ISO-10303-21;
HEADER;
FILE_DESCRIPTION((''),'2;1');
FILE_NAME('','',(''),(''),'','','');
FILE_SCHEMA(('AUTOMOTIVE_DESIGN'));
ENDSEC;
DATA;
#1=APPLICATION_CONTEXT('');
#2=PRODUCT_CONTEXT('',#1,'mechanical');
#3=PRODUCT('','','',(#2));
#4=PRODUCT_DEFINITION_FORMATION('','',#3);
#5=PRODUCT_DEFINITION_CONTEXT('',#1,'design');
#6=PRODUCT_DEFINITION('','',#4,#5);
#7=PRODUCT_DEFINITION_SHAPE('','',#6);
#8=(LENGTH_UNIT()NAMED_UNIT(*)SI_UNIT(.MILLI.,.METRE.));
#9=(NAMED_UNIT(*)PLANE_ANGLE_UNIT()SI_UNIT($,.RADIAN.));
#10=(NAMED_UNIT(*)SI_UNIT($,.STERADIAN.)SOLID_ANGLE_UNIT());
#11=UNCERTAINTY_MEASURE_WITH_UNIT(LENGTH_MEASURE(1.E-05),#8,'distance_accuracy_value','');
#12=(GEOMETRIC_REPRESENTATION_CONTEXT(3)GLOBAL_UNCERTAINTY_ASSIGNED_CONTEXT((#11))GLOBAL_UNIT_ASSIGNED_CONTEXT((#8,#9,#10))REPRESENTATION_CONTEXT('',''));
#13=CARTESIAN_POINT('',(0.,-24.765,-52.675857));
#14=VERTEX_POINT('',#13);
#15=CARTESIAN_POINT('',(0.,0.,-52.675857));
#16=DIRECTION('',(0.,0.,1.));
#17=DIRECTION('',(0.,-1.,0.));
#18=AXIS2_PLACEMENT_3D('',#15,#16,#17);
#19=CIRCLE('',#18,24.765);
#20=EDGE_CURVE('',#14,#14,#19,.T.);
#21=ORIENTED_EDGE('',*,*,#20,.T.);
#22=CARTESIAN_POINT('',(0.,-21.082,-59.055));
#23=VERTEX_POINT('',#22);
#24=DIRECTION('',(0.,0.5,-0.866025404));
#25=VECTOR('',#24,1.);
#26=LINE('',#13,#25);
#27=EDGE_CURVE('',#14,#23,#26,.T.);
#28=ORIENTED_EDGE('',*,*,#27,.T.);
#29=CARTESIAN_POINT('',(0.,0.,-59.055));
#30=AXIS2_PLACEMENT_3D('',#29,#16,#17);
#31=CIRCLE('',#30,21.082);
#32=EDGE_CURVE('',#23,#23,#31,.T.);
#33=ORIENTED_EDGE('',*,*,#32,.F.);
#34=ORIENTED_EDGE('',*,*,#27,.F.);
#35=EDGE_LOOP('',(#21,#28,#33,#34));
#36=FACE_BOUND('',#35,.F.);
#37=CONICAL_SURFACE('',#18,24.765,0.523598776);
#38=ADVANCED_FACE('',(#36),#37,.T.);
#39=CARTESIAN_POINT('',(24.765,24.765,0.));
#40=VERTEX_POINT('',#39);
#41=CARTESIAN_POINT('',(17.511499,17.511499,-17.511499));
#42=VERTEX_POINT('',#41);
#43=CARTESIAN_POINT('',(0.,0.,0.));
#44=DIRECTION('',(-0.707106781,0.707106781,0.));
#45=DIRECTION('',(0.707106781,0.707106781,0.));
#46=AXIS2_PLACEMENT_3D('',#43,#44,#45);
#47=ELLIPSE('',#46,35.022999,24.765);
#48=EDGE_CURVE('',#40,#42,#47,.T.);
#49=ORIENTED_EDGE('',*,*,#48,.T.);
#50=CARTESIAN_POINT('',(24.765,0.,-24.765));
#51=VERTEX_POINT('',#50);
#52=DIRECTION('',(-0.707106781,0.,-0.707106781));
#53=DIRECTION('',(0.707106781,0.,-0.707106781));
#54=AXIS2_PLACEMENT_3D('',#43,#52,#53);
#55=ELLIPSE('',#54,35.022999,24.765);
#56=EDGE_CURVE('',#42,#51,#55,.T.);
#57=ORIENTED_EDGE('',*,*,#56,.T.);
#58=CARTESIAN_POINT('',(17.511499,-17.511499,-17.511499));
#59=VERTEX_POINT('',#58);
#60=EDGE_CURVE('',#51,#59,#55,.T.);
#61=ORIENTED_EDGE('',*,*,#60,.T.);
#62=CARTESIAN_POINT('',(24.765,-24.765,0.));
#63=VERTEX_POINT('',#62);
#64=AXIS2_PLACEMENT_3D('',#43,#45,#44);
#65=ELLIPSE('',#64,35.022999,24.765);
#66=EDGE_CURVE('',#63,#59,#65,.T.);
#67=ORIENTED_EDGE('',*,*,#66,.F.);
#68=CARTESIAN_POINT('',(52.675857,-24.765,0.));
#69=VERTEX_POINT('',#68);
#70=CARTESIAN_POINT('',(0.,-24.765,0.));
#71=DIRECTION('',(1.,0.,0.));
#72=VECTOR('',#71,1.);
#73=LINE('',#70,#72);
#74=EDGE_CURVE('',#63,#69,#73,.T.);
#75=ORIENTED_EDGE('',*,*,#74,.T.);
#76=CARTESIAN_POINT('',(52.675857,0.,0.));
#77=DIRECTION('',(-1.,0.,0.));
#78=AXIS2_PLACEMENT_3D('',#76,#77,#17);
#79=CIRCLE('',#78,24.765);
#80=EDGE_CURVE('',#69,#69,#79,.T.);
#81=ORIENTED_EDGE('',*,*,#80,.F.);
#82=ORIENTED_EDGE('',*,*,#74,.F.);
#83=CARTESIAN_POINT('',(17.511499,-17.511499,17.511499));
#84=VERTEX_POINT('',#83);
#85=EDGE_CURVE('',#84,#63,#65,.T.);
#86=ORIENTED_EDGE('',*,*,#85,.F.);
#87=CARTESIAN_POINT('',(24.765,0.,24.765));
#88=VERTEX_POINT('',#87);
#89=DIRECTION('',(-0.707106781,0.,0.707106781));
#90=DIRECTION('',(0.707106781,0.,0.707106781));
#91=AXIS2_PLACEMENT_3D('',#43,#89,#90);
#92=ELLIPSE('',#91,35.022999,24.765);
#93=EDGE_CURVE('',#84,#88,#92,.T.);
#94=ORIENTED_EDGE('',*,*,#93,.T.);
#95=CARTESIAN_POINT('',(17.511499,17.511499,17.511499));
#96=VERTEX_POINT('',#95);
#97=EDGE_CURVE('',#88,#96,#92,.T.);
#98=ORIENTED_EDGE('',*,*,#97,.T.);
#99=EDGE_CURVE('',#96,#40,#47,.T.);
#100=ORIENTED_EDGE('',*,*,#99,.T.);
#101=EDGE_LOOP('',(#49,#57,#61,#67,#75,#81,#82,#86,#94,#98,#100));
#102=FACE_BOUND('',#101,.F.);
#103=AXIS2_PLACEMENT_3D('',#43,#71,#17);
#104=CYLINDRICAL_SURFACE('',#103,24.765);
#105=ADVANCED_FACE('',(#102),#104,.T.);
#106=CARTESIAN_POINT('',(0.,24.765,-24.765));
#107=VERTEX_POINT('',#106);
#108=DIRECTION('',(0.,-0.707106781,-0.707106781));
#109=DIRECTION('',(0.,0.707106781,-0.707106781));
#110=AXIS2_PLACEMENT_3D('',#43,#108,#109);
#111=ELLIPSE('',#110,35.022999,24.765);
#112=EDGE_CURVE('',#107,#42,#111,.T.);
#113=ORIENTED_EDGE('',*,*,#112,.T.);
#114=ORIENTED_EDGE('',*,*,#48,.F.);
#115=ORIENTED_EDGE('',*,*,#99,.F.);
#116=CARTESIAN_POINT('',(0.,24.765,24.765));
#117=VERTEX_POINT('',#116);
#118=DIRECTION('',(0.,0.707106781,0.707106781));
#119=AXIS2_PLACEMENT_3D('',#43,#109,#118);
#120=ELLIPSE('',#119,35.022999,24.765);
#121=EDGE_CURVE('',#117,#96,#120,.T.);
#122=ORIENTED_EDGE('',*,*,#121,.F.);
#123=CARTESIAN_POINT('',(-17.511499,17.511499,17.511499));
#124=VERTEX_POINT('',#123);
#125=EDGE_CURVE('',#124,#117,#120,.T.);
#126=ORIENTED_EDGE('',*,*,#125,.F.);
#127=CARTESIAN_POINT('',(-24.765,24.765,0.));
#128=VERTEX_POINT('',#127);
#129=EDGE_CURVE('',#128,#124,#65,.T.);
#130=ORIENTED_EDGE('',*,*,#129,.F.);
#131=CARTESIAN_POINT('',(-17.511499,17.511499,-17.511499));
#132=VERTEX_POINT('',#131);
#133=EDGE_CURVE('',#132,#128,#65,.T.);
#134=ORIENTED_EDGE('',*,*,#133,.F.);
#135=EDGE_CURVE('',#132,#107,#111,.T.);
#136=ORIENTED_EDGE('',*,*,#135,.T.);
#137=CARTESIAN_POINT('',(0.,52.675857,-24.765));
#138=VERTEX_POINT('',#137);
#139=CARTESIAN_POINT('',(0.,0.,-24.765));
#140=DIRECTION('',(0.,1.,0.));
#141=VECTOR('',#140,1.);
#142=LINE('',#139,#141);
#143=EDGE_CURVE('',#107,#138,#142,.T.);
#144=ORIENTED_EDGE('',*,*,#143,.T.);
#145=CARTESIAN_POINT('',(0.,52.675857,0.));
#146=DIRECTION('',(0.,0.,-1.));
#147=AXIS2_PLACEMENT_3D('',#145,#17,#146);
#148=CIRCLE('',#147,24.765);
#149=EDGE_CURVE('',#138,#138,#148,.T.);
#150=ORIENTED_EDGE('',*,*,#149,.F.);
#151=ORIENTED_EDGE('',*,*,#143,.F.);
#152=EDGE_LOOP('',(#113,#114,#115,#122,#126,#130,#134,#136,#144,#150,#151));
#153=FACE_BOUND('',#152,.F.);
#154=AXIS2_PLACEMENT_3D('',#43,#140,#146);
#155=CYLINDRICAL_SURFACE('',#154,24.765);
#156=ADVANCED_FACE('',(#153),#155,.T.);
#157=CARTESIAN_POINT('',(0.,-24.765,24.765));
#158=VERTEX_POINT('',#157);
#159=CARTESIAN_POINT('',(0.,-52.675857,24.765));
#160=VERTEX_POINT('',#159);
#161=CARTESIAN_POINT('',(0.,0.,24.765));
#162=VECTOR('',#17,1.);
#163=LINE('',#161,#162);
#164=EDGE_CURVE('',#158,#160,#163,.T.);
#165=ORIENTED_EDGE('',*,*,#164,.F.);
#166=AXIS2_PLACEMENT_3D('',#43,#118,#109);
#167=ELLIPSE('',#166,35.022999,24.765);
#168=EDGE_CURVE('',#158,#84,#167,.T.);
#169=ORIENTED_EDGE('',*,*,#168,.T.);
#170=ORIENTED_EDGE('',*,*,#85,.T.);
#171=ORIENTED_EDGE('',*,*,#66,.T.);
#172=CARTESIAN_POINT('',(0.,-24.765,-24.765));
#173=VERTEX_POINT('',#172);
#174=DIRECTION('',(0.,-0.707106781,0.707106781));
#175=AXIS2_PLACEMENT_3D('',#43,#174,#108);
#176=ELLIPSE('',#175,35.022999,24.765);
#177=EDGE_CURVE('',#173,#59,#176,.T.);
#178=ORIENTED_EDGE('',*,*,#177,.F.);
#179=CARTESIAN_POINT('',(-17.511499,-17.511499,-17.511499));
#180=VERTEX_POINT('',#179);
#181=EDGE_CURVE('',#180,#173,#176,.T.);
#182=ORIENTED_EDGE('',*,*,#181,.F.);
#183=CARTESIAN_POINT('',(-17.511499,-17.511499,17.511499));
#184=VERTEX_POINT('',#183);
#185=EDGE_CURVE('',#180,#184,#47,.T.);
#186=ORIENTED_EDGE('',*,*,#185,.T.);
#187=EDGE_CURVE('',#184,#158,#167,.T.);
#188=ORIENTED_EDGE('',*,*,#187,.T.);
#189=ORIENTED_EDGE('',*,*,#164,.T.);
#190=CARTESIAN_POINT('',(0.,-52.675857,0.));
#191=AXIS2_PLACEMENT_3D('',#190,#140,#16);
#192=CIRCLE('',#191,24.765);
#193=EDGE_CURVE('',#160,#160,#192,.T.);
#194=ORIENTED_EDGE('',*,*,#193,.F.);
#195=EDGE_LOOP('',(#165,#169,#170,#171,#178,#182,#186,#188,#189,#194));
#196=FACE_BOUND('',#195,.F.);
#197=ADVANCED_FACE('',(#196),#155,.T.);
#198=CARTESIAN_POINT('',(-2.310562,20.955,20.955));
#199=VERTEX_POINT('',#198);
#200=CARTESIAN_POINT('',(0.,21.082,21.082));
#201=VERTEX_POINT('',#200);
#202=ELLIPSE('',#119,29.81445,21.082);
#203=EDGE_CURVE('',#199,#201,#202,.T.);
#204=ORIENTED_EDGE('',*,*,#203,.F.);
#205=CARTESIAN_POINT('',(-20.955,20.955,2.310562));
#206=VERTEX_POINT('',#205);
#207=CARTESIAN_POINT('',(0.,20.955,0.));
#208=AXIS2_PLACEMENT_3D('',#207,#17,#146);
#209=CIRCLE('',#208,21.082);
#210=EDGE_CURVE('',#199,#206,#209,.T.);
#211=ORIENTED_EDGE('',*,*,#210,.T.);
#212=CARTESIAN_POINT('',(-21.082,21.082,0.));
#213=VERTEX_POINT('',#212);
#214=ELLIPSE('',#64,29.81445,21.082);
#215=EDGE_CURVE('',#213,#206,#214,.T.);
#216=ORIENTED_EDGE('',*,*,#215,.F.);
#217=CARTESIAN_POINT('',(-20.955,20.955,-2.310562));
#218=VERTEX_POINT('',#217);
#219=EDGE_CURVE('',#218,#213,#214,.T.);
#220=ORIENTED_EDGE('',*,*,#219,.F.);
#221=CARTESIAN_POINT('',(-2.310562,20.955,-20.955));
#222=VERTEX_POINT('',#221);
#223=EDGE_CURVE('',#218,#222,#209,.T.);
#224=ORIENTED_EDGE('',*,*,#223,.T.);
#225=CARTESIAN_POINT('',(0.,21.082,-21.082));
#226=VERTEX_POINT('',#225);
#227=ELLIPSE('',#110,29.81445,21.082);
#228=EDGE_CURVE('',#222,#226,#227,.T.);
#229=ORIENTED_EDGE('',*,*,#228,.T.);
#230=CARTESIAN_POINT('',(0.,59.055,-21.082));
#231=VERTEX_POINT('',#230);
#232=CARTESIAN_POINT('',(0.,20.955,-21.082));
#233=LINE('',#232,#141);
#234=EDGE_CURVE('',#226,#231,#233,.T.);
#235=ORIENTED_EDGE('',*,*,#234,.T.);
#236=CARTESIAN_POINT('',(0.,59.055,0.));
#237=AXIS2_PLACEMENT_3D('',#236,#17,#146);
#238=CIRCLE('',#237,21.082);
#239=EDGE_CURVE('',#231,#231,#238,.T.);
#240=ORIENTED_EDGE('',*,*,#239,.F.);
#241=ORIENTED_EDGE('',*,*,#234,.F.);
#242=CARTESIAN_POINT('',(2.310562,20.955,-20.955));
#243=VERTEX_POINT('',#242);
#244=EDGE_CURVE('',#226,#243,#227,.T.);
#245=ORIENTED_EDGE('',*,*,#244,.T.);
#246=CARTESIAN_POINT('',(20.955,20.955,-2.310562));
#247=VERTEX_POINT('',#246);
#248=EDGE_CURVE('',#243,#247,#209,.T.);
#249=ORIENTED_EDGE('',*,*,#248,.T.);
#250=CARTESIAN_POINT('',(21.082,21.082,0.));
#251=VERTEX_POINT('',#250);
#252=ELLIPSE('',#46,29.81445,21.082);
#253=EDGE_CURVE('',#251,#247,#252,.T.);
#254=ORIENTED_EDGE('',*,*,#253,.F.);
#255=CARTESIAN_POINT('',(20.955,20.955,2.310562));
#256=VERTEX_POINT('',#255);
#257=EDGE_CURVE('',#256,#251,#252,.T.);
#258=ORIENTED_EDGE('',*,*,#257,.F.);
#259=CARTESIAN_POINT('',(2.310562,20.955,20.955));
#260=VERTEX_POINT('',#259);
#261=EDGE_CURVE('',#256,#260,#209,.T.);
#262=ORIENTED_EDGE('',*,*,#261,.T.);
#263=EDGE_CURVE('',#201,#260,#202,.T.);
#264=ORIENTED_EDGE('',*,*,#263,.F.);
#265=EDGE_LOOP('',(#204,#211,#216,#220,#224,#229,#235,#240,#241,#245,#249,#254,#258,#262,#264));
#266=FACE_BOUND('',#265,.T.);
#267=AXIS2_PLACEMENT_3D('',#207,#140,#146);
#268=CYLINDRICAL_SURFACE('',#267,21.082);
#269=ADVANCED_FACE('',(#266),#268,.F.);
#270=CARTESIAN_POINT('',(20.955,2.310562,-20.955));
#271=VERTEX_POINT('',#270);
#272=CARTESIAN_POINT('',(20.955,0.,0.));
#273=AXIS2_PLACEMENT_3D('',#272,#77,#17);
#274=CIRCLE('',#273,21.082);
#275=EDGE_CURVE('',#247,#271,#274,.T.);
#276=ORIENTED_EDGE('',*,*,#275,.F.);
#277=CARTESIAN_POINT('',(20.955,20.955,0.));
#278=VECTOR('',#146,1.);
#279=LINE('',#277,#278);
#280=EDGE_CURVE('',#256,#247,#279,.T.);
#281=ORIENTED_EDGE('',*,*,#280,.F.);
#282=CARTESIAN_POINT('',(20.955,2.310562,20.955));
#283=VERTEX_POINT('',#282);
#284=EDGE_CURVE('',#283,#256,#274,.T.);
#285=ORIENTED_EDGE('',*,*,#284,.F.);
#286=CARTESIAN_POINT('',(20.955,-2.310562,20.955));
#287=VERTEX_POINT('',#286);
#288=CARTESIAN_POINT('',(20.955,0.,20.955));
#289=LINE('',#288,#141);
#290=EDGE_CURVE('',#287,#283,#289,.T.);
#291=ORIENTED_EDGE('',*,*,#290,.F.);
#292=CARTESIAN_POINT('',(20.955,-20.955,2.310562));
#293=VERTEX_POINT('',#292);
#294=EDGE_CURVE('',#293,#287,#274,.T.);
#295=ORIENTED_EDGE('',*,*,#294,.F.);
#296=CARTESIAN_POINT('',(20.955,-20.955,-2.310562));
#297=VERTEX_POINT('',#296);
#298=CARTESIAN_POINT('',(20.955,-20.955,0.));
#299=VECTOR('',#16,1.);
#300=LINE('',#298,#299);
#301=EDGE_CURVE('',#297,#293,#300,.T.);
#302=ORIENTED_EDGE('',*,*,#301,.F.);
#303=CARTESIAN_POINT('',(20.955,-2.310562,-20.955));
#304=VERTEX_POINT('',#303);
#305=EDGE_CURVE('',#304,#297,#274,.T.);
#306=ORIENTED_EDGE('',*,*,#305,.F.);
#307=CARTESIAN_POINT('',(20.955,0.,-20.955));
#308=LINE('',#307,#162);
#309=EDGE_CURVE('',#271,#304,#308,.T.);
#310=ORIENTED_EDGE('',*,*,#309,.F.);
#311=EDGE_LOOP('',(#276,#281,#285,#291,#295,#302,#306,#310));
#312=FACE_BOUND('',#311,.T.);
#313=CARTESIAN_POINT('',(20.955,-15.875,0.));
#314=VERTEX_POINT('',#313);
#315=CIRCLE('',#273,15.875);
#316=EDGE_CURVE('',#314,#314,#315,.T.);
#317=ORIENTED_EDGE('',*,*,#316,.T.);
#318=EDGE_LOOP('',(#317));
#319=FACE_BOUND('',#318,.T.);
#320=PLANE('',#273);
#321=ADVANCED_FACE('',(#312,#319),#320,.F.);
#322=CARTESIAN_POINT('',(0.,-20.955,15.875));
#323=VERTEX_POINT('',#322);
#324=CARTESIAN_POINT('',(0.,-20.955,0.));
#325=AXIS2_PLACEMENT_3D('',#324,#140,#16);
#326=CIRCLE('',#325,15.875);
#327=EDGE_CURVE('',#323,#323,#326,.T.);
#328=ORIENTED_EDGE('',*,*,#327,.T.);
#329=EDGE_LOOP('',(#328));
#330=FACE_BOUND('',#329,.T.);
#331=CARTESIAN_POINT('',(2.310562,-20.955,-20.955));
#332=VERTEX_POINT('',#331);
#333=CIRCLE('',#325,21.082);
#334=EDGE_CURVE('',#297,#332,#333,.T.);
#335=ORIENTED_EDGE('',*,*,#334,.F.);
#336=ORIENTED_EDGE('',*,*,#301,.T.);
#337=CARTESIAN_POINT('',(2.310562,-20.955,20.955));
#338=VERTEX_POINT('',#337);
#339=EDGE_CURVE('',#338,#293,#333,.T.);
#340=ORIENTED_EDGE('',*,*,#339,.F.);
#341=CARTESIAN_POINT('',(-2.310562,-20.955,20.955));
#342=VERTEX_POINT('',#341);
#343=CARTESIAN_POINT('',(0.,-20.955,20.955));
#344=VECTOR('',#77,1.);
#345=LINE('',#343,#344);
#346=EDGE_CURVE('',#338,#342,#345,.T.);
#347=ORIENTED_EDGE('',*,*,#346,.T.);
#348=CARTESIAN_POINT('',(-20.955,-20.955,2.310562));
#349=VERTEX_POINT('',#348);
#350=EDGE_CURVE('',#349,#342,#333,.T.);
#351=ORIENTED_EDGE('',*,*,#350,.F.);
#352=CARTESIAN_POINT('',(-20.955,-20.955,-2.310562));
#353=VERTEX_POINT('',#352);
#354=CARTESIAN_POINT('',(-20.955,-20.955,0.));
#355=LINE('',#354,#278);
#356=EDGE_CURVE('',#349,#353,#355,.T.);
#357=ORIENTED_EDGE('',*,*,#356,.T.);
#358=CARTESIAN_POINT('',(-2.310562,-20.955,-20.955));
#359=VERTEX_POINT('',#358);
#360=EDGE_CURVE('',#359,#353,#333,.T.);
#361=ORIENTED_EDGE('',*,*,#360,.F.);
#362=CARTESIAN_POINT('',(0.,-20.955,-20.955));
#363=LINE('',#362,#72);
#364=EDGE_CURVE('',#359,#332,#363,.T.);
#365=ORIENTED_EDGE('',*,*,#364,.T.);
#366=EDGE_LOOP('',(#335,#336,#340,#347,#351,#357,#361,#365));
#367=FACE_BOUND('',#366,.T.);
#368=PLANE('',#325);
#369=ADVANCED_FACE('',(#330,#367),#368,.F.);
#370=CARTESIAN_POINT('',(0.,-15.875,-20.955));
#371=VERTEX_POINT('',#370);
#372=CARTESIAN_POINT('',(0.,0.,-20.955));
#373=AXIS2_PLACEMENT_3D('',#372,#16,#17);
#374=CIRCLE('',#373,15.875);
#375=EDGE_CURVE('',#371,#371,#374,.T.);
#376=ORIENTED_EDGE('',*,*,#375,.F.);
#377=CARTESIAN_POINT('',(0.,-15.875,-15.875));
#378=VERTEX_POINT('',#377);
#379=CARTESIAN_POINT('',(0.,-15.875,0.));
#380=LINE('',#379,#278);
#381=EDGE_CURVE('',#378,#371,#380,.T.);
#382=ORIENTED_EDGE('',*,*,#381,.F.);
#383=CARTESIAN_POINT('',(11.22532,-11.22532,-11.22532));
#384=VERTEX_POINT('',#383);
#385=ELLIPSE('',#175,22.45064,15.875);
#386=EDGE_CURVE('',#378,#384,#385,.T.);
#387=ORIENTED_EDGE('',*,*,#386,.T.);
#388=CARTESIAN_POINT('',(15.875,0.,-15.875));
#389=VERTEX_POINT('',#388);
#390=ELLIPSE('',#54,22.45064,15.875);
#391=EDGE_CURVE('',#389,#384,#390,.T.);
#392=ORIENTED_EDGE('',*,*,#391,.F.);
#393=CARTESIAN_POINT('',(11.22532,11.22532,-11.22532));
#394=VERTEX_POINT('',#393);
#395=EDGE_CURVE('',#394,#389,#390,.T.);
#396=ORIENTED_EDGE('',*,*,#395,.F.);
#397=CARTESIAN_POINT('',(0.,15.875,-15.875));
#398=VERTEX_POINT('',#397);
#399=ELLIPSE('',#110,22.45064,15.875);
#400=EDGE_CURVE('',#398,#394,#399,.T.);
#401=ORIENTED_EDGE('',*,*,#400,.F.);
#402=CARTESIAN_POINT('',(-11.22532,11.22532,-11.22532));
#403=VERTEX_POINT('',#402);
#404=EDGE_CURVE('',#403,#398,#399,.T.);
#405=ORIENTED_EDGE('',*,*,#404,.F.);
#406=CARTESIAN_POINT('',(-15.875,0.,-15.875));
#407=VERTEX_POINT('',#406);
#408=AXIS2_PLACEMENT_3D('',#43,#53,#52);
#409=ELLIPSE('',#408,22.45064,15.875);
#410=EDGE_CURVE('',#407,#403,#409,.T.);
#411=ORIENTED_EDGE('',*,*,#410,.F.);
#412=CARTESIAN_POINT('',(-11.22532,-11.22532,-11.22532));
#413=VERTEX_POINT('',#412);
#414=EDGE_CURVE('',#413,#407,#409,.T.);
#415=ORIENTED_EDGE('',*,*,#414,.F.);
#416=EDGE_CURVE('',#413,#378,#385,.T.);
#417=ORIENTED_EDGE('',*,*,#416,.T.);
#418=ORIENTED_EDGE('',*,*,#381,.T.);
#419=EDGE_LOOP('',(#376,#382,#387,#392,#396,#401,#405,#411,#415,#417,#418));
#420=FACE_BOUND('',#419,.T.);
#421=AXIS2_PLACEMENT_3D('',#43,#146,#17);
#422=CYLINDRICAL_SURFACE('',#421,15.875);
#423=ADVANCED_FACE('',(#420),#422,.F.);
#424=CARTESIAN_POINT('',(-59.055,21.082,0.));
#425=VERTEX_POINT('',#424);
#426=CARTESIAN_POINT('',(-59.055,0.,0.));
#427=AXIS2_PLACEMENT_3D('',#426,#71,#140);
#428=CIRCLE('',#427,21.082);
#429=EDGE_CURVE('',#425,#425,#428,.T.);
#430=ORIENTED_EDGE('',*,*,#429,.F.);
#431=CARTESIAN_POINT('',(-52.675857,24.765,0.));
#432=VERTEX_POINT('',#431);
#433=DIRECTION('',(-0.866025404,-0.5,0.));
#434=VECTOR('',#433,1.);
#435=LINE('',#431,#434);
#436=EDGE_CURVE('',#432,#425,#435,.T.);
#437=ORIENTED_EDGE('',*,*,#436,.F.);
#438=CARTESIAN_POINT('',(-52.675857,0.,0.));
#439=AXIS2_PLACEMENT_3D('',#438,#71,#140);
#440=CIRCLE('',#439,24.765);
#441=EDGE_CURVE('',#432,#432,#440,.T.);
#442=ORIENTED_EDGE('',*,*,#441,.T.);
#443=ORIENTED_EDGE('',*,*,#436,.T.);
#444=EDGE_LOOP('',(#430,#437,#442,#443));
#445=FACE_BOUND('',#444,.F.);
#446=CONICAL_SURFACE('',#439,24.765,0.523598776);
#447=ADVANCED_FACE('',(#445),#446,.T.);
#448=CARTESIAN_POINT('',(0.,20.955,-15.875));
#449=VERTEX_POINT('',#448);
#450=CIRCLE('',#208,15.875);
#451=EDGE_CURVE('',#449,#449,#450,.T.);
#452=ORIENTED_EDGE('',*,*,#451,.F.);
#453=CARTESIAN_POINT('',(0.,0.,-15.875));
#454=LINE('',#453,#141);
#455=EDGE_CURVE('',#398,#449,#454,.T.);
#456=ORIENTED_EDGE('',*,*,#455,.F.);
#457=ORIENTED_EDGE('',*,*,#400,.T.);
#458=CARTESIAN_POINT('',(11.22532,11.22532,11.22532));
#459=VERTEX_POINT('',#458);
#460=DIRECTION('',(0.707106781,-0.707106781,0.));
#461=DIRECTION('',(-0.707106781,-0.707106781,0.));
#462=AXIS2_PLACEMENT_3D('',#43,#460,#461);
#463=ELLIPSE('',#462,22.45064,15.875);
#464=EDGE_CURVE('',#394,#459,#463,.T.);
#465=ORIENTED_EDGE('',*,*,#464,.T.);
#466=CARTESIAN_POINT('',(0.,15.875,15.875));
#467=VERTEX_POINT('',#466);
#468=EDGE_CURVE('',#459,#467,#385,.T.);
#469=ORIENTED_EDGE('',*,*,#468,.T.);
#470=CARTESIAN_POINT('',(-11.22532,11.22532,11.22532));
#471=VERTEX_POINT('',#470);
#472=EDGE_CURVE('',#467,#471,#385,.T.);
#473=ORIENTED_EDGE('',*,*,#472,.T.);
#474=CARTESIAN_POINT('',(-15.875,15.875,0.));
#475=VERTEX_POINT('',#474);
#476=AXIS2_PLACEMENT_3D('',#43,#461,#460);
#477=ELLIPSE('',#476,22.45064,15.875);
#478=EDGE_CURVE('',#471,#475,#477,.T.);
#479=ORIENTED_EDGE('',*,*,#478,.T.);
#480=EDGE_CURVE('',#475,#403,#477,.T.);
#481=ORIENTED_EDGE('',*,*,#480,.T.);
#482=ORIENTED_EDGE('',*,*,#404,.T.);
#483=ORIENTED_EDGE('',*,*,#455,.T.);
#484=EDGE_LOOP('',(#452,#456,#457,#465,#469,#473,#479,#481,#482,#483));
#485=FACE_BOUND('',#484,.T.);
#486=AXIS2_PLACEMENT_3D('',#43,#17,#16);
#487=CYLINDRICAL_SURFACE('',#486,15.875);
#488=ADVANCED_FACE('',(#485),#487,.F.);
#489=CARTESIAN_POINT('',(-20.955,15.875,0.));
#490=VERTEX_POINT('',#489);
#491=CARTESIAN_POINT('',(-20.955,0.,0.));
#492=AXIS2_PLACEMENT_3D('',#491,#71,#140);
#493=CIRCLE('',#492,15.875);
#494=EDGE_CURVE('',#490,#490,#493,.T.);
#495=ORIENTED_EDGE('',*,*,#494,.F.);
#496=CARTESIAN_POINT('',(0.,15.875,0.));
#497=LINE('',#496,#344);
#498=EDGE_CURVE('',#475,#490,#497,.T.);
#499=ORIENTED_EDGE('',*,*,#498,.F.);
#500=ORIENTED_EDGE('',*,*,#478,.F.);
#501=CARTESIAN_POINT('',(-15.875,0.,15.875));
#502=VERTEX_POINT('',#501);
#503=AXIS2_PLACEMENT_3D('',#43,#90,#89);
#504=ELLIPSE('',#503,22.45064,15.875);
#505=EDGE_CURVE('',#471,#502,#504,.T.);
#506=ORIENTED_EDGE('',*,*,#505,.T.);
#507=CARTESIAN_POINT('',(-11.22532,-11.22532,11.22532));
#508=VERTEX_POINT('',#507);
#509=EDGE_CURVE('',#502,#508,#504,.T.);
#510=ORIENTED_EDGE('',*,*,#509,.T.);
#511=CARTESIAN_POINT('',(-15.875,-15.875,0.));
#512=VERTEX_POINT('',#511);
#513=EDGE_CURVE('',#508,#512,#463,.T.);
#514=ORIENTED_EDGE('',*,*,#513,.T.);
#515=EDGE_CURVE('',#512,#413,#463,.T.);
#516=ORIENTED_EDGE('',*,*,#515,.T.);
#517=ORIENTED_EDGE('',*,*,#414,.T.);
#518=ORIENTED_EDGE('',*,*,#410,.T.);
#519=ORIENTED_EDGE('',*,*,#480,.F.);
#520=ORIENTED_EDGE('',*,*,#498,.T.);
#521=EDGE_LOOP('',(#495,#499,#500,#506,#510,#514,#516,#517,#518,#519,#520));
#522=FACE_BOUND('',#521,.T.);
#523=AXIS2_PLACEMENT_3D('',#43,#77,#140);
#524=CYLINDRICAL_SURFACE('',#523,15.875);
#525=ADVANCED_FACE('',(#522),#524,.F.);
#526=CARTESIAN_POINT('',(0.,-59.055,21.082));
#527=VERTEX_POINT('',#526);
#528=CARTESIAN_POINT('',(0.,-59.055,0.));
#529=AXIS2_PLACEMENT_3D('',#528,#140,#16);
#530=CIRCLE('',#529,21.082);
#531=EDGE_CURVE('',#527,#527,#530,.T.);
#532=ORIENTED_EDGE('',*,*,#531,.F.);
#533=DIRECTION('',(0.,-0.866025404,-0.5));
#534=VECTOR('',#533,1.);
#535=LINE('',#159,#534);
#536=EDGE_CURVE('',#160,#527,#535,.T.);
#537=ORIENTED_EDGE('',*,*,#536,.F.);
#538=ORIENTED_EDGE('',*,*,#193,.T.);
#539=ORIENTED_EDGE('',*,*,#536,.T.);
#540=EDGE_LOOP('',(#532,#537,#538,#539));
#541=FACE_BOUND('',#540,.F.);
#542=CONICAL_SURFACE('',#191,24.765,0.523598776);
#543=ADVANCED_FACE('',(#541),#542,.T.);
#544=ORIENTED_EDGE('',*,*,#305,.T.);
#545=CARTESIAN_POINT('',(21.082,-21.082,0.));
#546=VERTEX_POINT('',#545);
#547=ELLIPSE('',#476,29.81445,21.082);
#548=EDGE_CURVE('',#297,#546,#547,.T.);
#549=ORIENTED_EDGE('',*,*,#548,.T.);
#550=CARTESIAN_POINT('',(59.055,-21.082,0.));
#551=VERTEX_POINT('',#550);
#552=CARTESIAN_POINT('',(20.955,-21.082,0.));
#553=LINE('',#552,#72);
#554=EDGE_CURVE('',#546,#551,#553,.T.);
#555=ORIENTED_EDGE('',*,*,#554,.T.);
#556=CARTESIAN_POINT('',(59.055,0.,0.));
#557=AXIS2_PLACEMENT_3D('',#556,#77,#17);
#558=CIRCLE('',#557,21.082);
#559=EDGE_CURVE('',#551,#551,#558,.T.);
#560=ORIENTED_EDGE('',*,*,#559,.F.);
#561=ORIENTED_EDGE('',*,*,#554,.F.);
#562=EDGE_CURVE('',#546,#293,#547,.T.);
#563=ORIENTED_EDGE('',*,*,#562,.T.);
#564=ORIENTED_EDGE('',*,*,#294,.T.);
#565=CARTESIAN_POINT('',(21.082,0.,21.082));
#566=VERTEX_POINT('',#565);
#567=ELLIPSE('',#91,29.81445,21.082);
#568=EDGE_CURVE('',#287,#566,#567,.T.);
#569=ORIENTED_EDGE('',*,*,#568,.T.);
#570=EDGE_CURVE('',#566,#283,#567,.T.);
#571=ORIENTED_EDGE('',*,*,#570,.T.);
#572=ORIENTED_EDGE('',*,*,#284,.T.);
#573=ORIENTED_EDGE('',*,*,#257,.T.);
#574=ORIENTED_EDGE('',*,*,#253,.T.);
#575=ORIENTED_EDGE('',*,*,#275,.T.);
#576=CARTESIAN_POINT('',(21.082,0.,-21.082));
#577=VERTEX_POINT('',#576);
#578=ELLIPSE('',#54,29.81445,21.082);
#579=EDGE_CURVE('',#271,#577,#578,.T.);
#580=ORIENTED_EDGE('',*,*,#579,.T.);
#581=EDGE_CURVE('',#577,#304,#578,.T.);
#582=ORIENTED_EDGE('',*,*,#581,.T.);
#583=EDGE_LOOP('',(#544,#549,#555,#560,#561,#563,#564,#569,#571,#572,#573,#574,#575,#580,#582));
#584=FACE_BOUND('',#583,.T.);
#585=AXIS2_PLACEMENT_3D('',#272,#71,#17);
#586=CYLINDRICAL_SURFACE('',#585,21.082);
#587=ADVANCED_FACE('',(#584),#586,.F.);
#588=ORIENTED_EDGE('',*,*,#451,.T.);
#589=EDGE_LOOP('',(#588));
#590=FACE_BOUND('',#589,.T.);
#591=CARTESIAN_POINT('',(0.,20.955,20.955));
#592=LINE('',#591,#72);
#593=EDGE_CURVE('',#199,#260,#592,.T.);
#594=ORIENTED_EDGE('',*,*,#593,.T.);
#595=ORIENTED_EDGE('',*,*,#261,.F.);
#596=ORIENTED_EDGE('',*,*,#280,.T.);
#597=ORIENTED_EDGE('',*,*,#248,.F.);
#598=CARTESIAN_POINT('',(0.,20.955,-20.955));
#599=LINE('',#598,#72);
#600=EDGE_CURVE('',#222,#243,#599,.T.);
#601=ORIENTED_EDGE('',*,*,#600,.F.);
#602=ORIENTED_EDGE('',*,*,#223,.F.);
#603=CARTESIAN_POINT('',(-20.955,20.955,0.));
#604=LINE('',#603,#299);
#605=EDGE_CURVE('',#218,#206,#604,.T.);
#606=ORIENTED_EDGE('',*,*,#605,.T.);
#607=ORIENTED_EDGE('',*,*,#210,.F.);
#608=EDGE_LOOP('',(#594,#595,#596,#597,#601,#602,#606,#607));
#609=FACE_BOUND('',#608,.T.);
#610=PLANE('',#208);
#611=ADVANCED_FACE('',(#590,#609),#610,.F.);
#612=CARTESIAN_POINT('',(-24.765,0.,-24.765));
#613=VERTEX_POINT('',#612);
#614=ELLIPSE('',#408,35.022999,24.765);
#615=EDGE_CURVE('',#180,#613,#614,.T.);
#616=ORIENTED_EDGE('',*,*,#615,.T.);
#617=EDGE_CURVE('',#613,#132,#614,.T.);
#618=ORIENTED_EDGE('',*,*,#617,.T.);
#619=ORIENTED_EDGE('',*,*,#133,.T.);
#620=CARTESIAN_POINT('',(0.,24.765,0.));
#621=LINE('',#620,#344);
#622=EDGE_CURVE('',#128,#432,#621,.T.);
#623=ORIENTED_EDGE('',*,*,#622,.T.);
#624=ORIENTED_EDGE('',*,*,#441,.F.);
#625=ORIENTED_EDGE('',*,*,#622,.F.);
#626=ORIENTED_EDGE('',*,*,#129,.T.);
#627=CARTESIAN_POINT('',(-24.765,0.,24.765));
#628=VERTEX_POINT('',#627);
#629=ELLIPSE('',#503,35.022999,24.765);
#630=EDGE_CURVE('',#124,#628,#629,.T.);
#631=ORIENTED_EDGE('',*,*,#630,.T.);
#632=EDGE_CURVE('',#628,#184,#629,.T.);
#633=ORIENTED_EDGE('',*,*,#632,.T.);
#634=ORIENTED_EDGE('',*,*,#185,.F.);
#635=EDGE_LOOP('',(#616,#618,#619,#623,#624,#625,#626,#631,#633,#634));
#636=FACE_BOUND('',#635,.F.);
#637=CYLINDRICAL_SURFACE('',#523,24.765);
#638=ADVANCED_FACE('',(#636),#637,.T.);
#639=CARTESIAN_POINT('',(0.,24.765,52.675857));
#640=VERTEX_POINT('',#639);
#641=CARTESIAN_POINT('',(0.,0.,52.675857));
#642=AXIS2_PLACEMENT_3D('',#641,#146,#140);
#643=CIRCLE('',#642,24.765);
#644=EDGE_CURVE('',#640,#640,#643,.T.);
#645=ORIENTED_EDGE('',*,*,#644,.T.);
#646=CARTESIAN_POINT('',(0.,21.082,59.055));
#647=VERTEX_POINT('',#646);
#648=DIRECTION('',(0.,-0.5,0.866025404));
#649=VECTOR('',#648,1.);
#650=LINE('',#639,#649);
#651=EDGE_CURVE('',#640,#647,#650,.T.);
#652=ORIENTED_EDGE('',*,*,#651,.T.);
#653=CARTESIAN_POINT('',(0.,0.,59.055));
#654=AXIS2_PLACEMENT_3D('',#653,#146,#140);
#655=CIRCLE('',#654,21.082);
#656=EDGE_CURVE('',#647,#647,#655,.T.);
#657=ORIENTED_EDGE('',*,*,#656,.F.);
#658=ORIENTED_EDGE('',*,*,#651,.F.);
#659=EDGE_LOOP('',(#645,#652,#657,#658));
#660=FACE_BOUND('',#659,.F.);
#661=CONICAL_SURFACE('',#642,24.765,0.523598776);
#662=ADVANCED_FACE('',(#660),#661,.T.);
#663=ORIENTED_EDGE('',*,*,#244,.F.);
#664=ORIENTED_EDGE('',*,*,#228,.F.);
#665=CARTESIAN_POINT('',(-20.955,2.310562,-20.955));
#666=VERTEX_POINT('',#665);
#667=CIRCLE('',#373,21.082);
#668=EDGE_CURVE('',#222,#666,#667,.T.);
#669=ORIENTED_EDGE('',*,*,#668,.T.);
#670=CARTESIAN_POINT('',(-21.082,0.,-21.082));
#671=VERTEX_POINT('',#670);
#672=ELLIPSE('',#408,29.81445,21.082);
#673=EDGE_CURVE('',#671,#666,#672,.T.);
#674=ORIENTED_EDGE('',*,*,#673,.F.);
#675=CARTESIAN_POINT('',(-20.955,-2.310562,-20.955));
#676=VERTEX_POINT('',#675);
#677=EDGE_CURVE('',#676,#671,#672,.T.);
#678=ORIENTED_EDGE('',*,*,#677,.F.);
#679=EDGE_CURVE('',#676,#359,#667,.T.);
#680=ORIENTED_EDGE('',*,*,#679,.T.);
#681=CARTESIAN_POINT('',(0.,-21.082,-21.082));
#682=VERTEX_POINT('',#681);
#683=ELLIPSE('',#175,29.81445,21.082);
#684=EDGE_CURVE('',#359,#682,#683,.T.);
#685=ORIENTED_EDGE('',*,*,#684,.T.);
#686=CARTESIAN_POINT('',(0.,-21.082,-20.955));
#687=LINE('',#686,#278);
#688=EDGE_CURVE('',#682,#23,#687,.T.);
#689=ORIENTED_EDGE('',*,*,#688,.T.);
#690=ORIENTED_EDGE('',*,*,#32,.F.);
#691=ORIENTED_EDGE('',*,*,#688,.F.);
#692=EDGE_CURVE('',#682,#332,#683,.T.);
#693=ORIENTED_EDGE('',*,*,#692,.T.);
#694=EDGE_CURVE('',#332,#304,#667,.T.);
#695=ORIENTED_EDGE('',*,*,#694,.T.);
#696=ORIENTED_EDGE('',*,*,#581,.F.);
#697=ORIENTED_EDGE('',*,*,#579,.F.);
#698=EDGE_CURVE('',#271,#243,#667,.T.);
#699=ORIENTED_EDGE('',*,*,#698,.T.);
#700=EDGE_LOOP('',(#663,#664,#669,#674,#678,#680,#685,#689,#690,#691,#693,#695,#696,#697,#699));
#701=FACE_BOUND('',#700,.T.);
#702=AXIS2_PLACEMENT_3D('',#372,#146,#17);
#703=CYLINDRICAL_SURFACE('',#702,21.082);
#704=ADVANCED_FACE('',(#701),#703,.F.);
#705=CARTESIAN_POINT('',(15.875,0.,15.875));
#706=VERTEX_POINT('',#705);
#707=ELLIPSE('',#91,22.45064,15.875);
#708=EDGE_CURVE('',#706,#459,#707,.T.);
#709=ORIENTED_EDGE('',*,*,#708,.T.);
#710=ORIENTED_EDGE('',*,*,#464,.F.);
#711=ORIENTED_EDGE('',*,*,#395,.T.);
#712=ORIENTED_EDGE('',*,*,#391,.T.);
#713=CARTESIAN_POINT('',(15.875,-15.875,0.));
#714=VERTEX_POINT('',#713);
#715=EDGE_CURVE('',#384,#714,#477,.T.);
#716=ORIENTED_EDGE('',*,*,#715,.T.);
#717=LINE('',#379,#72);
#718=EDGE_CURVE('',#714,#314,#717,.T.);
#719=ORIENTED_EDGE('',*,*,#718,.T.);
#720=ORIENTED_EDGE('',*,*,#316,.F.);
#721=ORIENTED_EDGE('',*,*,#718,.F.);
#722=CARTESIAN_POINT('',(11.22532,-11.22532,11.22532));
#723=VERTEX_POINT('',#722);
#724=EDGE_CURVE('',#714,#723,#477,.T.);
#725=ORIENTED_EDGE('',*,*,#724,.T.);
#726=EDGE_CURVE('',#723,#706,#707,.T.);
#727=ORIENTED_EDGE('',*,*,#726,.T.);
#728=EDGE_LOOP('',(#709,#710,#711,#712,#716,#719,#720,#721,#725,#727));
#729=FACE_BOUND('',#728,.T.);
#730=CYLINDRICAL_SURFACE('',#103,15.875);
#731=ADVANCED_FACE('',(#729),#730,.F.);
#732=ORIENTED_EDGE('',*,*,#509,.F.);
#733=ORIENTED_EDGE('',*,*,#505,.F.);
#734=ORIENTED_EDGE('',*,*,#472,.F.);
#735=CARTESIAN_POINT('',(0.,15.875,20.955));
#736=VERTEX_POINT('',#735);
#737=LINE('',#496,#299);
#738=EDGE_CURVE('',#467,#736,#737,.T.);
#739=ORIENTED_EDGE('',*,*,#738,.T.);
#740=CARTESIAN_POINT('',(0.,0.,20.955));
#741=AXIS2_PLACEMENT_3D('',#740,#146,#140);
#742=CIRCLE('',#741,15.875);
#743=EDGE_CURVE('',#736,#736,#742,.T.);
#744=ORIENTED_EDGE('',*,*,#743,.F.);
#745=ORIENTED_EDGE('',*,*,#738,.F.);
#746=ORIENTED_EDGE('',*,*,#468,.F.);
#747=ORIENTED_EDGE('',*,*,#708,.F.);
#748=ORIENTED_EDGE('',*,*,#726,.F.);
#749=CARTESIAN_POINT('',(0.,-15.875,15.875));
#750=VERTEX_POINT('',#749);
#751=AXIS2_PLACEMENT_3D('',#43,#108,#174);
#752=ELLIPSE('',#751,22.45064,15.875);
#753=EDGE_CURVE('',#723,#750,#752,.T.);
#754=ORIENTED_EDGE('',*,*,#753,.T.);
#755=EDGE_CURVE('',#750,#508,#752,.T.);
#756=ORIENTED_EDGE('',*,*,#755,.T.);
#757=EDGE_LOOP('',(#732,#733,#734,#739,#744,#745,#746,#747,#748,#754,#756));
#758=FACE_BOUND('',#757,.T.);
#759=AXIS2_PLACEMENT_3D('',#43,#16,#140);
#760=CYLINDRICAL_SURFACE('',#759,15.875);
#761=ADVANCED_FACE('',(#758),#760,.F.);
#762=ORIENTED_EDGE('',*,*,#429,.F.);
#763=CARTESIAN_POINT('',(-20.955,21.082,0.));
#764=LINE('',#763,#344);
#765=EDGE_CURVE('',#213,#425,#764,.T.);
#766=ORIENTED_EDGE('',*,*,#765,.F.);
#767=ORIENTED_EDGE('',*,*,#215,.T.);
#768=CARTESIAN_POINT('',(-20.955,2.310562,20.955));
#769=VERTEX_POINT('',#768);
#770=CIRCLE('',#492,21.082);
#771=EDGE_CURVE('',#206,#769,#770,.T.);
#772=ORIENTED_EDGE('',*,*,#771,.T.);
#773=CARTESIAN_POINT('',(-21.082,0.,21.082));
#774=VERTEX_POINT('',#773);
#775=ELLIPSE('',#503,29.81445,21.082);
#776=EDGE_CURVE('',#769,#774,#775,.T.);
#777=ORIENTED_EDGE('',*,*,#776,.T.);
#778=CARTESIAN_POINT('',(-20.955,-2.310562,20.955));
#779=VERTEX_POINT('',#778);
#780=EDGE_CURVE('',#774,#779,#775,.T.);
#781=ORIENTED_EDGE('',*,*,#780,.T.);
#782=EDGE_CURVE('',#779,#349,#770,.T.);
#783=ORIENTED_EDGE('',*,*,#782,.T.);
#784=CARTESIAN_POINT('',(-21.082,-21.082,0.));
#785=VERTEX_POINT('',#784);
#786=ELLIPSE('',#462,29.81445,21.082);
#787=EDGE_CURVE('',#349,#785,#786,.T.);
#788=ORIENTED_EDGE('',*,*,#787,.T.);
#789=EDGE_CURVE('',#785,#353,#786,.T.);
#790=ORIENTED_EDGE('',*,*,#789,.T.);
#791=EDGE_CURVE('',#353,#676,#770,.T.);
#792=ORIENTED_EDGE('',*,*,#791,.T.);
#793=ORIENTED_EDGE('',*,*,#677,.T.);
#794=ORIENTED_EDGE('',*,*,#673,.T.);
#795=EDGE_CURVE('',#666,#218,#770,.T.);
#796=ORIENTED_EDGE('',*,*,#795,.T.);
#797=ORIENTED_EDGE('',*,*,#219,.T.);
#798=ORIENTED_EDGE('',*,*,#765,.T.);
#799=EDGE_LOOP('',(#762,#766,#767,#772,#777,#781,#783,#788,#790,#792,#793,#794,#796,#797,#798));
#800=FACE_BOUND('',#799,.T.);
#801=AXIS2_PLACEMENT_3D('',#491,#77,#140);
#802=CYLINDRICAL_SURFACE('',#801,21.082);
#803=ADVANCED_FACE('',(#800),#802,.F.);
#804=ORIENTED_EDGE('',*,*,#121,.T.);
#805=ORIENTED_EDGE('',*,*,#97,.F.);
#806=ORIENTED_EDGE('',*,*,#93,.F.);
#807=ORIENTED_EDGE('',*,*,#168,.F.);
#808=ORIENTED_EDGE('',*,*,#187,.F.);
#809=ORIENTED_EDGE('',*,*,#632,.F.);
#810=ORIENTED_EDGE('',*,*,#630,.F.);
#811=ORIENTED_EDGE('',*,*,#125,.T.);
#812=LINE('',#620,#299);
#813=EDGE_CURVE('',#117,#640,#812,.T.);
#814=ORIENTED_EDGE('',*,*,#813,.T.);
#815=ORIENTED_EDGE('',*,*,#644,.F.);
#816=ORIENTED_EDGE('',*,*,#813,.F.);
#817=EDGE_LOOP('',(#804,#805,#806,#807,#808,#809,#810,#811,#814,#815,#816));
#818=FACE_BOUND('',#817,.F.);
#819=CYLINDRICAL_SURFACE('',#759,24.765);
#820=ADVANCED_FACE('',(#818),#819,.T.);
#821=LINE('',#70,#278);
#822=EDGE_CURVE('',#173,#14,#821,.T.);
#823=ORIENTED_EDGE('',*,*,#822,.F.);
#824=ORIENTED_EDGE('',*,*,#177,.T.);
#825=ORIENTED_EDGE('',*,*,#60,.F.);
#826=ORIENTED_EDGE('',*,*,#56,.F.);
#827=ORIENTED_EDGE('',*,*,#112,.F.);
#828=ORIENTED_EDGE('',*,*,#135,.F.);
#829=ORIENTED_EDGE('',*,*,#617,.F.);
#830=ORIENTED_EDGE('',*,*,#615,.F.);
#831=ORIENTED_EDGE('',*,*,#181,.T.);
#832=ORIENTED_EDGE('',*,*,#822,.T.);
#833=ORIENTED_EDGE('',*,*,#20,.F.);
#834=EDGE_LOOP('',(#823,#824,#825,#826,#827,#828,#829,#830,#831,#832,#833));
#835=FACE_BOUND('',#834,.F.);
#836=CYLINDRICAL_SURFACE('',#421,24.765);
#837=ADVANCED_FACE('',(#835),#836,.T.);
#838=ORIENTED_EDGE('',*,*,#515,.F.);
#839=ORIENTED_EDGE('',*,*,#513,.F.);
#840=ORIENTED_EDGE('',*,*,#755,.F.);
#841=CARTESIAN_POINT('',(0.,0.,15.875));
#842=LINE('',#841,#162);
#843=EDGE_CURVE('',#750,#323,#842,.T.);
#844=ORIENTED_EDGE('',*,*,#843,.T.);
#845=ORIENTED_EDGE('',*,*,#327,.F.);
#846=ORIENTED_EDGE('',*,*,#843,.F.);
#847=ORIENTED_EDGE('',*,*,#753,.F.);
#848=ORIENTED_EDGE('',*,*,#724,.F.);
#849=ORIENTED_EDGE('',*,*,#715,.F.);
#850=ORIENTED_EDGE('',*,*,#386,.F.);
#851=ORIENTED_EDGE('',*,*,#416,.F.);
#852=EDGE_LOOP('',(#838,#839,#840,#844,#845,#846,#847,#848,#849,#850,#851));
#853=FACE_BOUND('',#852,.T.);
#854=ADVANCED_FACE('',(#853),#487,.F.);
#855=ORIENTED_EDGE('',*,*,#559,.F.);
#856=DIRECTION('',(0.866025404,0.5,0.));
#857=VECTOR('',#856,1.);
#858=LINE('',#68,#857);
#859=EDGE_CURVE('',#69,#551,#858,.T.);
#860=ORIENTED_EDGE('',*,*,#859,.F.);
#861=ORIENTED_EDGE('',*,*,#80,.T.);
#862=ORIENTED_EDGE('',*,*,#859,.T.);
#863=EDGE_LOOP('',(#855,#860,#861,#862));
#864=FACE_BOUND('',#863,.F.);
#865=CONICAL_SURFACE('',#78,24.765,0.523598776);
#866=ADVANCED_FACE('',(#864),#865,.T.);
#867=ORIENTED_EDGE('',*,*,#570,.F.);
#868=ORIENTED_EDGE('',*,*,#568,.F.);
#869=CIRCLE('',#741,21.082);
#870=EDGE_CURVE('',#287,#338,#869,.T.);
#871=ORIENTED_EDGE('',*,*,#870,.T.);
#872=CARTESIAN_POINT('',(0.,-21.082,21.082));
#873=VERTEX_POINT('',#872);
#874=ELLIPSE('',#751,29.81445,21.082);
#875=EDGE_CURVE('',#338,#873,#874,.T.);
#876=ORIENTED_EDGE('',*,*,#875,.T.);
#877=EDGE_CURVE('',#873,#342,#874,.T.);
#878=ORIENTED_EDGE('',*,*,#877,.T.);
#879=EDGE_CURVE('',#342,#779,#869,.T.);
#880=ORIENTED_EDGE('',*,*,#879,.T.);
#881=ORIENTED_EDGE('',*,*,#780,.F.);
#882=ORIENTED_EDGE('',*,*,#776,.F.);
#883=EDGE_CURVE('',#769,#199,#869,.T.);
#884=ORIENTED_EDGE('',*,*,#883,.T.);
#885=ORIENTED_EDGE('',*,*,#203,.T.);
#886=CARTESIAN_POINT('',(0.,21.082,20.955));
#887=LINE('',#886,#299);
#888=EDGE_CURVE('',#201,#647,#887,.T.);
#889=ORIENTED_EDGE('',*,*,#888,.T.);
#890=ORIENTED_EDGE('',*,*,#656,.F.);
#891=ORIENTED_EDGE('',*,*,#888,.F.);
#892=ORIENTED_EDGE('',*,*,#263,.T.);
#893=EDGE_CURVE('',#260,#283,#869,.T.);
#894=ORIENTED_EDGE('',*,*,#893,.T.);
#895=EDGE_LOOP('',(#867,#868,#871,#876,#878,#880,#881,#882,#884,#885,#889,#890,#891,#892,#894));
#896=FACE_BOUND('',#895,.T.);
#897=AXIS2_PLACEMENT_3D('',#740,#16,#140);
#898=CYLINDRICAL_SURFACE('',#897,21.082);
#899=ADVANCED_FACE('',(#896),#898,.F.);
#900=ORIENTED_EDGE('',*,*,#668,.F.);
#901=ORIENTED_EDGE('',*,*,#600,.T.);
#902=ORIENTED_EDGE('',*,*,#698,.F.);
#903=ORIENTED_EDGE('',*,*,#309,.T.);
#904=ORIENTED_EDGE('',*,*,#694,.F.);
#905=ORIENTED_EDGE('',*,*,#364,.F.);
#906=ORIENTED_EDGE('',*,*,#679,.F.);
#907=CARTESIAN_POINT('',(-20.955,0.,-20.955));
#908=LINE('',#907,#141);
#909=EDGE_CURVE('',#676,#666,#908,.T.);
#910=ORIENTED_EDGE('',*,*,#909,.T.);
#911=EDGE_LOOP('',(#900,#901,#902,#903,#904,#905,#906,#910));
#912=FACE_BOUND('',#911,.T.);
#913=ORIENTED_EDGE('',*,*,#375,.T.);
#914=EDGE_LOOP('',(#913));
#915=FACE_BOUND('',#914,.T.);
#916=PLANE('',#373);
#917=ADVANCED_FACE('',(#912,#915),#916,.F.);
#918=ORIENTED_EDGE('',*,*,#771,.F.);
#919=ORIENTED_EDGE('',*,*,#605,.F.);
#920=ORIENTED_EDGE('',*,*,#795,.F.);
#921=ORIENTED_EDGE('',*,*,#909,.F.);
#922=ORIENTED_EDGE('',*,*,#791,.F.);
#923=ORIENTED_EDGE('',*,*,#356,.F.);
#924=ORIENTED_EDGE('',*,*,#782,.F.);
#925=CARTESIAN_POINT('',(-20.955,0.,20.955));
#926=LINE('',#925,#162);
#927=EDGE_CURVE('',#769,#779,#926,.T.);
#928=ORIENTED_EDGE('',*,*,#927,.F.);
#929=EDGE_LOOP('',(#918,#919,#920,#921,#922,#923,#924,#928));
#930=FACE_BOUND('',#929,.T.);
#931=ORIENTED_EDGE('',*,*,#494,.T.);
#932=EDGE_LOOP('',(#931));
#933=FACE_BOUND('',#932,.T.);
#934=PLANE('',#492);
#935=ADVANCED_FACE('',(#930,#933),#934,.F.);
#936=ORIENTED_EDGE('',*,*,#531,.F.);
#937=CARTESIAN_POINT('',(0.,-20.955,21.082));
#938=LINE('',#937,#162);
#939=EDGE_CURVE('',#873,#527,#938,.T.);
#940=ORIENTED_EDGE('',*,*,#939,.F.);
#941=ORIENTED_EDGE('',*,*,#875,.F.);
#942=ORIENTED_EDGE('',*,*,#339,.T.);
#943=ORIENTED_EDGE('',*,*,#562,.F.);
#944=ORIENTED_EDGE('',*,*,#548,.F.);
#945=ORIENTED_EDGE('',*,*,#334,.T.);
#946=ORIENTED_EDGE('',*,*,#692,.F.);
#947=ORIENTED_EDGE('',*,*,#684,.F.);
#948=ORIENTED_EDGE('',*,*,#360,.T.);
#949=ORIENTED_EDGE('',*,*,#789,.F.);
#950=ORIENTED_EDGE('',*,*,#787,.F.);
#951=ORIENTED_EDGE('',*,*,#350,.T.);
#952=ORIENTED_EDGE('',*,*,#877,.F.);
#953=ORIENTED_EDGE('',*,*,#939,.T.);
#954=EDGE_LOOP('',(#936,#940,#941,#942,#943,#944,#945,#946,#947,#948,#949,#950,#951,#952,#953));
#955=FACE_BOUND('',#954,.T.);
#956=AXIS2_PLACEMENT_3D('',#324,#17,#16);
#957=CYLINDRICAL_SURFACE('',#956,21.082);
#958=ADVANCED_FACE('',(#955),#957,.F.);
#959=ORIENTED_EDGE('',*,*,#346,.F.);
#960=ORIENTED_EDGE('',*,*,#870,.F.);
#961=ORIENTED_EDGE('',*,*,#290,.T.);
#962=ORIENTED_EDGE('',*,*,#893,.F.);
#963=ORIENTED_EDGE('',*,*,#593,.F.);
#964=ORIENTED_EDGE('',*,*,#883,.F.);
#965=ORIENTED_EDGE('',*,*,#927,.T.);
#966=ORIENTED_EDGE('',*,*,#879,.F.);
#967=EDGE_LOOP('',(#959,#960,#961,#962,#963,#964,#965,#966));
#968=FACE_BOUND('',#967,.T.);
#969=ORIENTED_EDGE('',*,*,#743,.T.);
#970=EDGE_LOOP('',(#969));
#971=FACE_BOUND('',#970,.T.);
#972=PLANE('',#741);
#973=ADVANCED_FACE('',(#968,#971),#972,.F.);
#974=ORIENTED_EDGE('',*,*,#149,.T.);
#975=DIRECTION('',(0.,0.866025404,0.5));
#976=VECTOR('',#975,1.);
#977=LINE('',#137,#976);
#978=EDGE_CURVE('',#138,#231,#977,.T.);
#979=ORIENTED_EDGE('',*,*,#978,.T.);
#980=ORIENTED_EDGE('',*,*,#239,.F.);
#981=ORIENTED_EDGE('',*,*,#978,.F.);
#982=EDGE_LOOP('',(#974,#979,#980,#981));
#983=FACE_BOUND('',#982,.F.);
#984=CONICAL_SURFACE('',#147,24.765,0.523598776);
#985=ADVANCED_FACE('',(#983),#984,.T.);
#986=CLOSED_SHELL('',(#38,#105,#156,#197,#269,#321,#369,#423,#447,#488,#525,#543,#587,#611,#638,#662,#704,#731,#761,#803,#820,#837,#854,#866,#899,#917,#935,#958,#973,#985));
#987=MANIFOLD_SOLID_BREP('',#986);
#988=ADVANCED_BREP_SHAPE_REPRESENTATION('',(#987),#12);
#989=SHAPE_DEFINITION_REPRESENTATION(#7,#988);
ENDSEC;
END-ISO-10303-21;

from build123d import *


with BuildPart() as f6:
    # F0 (on Right) → F6 (revolve)
    with BuildSketch(Plane.YZ):
        with BuildLine():
            Line((-52.6758568757, 24.765), (-59.055, 21.082))
            Line((-59.055, 21.082), (-20.955, 21.082))
            Line((-20.955, 21.082), (-20.955, 15.875))
            Line((-20.955, 15.875), (0, 15.875))
            ThreePointArc((0, 15.875), (11.2253201513, 11.2253201513), (15.875, 0))
            Line((15.875, 0), (24.765, 0))
            ThreePointArc((24.765, 0), (17.5114994361, 17.5114994361), (0, 24.765))
            Line((0, 24.765), (-52.6758568757, 24.765))
        make_face()
        with BuildLine():
            Line((-20.955, 21.082), (-59.055, 21.082))
            Line((-59.055, 21.082), (-59.055, 0))
            Line((-59.055, 0), (0, 0))
            Line((0, 0), (10.5189766587, 0))
            Line((10.5189766587, 0), (15.875, 0))
            ThreePointArc((15.875, 0), (11.2253201513, 11.2253201513), (0, 15.875))
            Line((0, 15.875), (-20.955, 15.875))
            Line((-20.955, 15.875), (-20.955, 21.082))
        make_face()
    revolve(axis=Axis((0, -21.59, 0), (0, 1, 0)))

    # F1 (on Right) → F7 (revolve)
    with BuildSketch(Plane.YZ):
        with BuildLine():
            Line((-24.765, -52.6758568757), (-21.082, -59.055))
            Line((-21.082, -59.055), (-21.082, -20.955))
            Line((-21.082, -20.955), (-15.875, -20.955))
            Line((-15.875, -20.955), (-15.875, 0))
            ThreePointArc((-15.875, 0), (-11.2253201513, 11.2253201513), (0, 15.875))
            Line((0, 15.875), (0, 24.765))
            ThreePointArc((0, 24.765), (-17.5114994361, 17.5114994361), (-24.765, 0))
            Line((-24.765, 0), (-24.765, -52.6758568757))
        make_face()
        with BuildLine():
            Line((-21.082, -20.955), (-21.082, -59.055))
            Line((-21.082, -59.055), (0, -59.055))
            Line((0, -59.055), (0, 0))
            Line((0, 0), (0, 15.875))
            ThreePointArc((0, 15.875), (-11.2253201513, 11.2253201513), (-15.875, 0))
            Line((-15.875, 0), (-15.875, -20.955))
            Line((-15.875, -20.955), (-21.082, -20.955))
        make_face()
    revolve(axis=Axis((0, 0, -21.59), (0, 0, 1)))

    # F2 (on Right) → F8 (revolve)
    with BuildSketch(Plane.YZ):
        with BuildLine():
            Line((52.6758568757, -24.765), (59.055, -21.082))
            Line((59.055, -21.082), (20.955, -21.082))
            Line((20.955, -21.082), (20.955, -15.875))
            Line((20.955, -15.875), (0, -15.875))
            ThreePointArc((0, -15.875), (-11.2253201513, -11.2253201513), (-15.875, 0))
            Line((-15.875, 0), (-24.765, 0))
            ThreePointArc((-24.765, 0), (-17.5114994361, -17.5114994361), (0, -24.765))
            Line((0, -24.765), (52.6758568757, -24.765))
        make_face()
        with BuildLine():
            Line((20.955, -21.082), (59.055, -21.082))
            Line((59.055, -21.082), (59.055, 0))
            Line((59.055, 0), (10.5189766587, 0))
            Line((10.5189766587, 0), (0, 0))
            Line((0, 0), (-15.875, 0))
            ThreePointArc((-15.875, 0), (-11.2253201513, -11.2253201513), (0, -15.875))
            Line((0, -15.875), (20.955, -15.875))
            Line((20.955, -15.875), (20.955, -21.082))
        make_face()
    revolve(axis=Axis((0, 21.59, 0), (0, -1, 0)))

    # F3 (on Right) → F9 (revolve)
    with BuildSketch(Plane.YZ):
        with BuildLine():
            Line((24.765, 52.6758568757), (21.082, 59.055))
            Line((21.082, 59.055), (21.082, 20.955))
            Line((21.082, 20.955), (15.875, 20.955))
            Line((15.875, 20.955), (15.875, 0))
            ThreePointArc((15.875, 0), (11.2253201513, -11.2253201513), (0, -15.875))
            Line((0, -15.875), (0, -24.765))
            ThreePointArc((0, -24.765), (17.5114994361, -17.5114994361), (24.765, 0))
            Line((24.765, 0), (24.765, 52.6758568757))
        make_face()
        with BuildLine():
            Line((21.082, 20.955), (21.082, 59.055))
            Line((21.082, 59.055), (0, 59.055))
            Line((0, 59.055), (0, 9.2996467855))
            Line((0, 9.2996467855), (0, 0))
            Line((0, 0), (0, -15.875))
            ThreePointArc((0, -15.875), (11.2253201513, -11.2253201513), (15.875, 0))
            Line((15.875, 0), (15.875, 20.955))
            Line((15.875, 20.955), (21.082, 20.955))
        make_face()
    revolve(axis=Axis((0, 0, 21.59), (0, 0, -1)))

    # F4 (on Top) → F10 (revolve)
    with BuildSketch(Plane.XY):
        with BuildLine():
            Line((-52.6758568757, 24.765), (-59.055, 21.082))
            Line((-59.055, 21.082), (-20.955, 21.082))
            Line((-20.955, 21.082), (-20.955, 15.875))
            Line((-20.955, 15.875), (0, 15.875))
            ThreePointArc((0, 15.875), (11.2253201513, 11.2253201513), (15.875, 0))
            Line((15.875, 0), (24.765, 0))
            ThreePointArc((24.765, 0), (17.5114994361, 17.5114994361), (0, 24.765))
            Line((0, 24.765), (-52.6758568757, 24.765))
        make_face()
        with BuildLine():
            Line((-20.955, 21.082), (-59.055, 21.082))
            Line((-59.055, 21.082), (-59.055, 0))
            Line((-59.055, 0), (-12.5608257832, 0))
            Line((-12.5608257832, 0), (0, 0))
            Line((0, 0), (15.875, 0))
            ThreePointArc((15.875, 0), (11.2253201513, 11.2253201513), (0, 15.875))
            Line((0, 15.875), (-20.955, 15.875))
            Line((-20.955, 15.875), (-20.955, 21.082))
        make_face()
    revolve(axis=Axis((-21.59, 0, 0), (1, 0, 0)))

    # F5 (on Top) → F11 (revolve)
    with BuildSketch(Plane.XY):
        with BuildLine():
            Line((52.6758568757, -24.765), (59.055, -21.082))
            Line((59.055, -21.082), (20.955, -21.082))
            Line((20.955, -21.082), (20.955, -15.875))
            Line((20.955, -15.875), (0, -15.875))
            ThreePointArc((0, -15.875), (-11.2253201513, -11.2253201513), (-15.875, 0))
            Line((-15.875, 0), (-24.765, 0))
            ThreePointArc((-24.765, 0), (-17.5114994361, -17.5114994361), (0, -24.765))
            Line((0, -24.765), (52.6758568757, -24.765))
        make_face()
        Polygon((20.955, -21.082), (59.055, -21.082), (59.055, 0), (30.3153488902, 0), (0, 0), (0, -15.875), (20.955, -15.875), align=None)
        with BuildLine():
            ThreePointArc((-15.875, 0), (-11.2253201513, -11.2253201513), (0, -15.875))
            Line((0, -15.875), (0, 0))
            Line((0, 0), (-15.875, 0))
        make_face()
    revolve(axis=Axis((21.59, 0, 0), (-1, 0, 0)))

    # F0 (on Right) → F12 (revolve, cut)
    with BuildSketch(Plane.YZ):
        with BuildLine():
            Line((-20.955, 21.082), (-59.055, 21.082))
            Line((-59.055, 21.082), (-59.055, 0))
            Line((-59.055, 0), (0, 0))
            Line((0, 0), (10.5189766587, 0))
            Line((10.5189766587, 0), (15.875, 0))
            ThreePointArc((15.875, 0), (11.2253201513, 11.2253201513), (0, 15.875))
            Line((0, 15.875), (-20.955, 15.875))
            Line((-20.955, 15.875), (-20.955, 21.082))
        make_face()
    revolve(axis=Axis((0, -21.59, 0), (0, 1, 0)), mode=Mode.SUBTRACT)

    # F1 (on Right) → F13 (revolve, cut)
    with BuildSketch(Plane.YZ):
        with BuildLine():
            Line((-21.082, -20.955), (-21.082, -59.055))
            Line((-21.082, -59.055), (0, -59.055))
            Line((0, -59.055), (0, 0))
            Line((0, 0), (0, 15.875))
            ThreePointArc((0, 15.875), (-11.2253201513, 11.2253201513), (-15.875, 0))
            Line((-15.875, 0), (-15.875, -20.955))
            Line((-15.875, -20.955), (-21.082, -20.955))
        make_face()
    revolve(axis=Axis((0, 0, -21.59), (0, 0, 1)), mode=Mode.SUBTRACT)

    # F2 (on Right) → F14 (revolve, cut)
    with BuildSketch(Plane.YZ):
        with BuildLine():
            Line((20.955, -21.082), (59.055, -21.082))
            Line((59.055, -21.082), (59.055, 0))
            Line((59.055, 0), (10.5189766587, 0))
            Line((10.5189766587, 0), (0, 0))
            Line((0, 0), (-15.875, 0))
            ThreePointArc((-15.875, 0), (-11.2253201513, -11.2253201513), (0, -15.875))
            Line((0, -15.875), (20.955, -15.875))
            Line((20.955, -15.875), (20.955, -21.082))
        make_face()
    revolve(axis=Axis((0, 21.59, 0), (0, -1, 0)), mode=Mode.SUBTRACT)

    # F3 (on Right) → F15 (revolve, cut)
    with BuildSketch(Plane.YZ):
        with BuildLine():
            Line((21.082, 20.955), (21.082, 59.055))
            Line((21.082, 59.055), (0, 59.055))
            Line((0, 59.055), (0, 9.2996467855))
            Line((0, 9.2996467855), (0, 0))
            Line((0, 0), (0, -15.875))
            ThreePointArc((0, -15.875), (11.2253201513, -11.2253201513), (15.875, 0))
            Line((15.875, 0), (15.875, 20.955))
            Line((15.875, 20.955), (21.082, 20.955))
        make_face()
    revolve(axis=Axis((0, 0, 21.59), (0, 0, -1)), mode=Mode.SUBTRACT)

    # F4 (on Top) → F16 (revolve, cut)
    with BuildSketch(Plane.XY):
        with BuildLine():
            Line((-20.955, 21.082), (-59.055, 21.082))
            Line((-59.055, 21.082), (-59.055, 0))
            Line((-59.055, 0), (-12.5608257832, 0))
            Line((-12.5608257832, 0), (0, 0))
            Line((0, 0), (15.875, 0))
            ThreePointArc((15.875, 0), (11.2253201513, 11.2253201513), (0, 15.875))
            Line((0, 15.875), (-20.955, 15.875))
            Line((-20.955, 15.875), (-20.955, 21.082))
        make_face()
    revolve(axis=Axis((-21.59, 0, 0), (1, 0, 0)), mode=Mode.SUBTRACT)

    # F5 (on Top) → F17 (revolve, cut)
    with BuildSketch(Plane.XY):
        Polygon((20.955, -21.082), (59.055, -21.082), (59.055, 0), (30.3153488902, 0), (0, 0), (0, -15.875), (20.955, -15.875), align=None)
    revolve(axis=Axis((21.59, 0, 0), (-1, 0, 0)), mode=Mode.SUBTRACT)


solid = f6.part
